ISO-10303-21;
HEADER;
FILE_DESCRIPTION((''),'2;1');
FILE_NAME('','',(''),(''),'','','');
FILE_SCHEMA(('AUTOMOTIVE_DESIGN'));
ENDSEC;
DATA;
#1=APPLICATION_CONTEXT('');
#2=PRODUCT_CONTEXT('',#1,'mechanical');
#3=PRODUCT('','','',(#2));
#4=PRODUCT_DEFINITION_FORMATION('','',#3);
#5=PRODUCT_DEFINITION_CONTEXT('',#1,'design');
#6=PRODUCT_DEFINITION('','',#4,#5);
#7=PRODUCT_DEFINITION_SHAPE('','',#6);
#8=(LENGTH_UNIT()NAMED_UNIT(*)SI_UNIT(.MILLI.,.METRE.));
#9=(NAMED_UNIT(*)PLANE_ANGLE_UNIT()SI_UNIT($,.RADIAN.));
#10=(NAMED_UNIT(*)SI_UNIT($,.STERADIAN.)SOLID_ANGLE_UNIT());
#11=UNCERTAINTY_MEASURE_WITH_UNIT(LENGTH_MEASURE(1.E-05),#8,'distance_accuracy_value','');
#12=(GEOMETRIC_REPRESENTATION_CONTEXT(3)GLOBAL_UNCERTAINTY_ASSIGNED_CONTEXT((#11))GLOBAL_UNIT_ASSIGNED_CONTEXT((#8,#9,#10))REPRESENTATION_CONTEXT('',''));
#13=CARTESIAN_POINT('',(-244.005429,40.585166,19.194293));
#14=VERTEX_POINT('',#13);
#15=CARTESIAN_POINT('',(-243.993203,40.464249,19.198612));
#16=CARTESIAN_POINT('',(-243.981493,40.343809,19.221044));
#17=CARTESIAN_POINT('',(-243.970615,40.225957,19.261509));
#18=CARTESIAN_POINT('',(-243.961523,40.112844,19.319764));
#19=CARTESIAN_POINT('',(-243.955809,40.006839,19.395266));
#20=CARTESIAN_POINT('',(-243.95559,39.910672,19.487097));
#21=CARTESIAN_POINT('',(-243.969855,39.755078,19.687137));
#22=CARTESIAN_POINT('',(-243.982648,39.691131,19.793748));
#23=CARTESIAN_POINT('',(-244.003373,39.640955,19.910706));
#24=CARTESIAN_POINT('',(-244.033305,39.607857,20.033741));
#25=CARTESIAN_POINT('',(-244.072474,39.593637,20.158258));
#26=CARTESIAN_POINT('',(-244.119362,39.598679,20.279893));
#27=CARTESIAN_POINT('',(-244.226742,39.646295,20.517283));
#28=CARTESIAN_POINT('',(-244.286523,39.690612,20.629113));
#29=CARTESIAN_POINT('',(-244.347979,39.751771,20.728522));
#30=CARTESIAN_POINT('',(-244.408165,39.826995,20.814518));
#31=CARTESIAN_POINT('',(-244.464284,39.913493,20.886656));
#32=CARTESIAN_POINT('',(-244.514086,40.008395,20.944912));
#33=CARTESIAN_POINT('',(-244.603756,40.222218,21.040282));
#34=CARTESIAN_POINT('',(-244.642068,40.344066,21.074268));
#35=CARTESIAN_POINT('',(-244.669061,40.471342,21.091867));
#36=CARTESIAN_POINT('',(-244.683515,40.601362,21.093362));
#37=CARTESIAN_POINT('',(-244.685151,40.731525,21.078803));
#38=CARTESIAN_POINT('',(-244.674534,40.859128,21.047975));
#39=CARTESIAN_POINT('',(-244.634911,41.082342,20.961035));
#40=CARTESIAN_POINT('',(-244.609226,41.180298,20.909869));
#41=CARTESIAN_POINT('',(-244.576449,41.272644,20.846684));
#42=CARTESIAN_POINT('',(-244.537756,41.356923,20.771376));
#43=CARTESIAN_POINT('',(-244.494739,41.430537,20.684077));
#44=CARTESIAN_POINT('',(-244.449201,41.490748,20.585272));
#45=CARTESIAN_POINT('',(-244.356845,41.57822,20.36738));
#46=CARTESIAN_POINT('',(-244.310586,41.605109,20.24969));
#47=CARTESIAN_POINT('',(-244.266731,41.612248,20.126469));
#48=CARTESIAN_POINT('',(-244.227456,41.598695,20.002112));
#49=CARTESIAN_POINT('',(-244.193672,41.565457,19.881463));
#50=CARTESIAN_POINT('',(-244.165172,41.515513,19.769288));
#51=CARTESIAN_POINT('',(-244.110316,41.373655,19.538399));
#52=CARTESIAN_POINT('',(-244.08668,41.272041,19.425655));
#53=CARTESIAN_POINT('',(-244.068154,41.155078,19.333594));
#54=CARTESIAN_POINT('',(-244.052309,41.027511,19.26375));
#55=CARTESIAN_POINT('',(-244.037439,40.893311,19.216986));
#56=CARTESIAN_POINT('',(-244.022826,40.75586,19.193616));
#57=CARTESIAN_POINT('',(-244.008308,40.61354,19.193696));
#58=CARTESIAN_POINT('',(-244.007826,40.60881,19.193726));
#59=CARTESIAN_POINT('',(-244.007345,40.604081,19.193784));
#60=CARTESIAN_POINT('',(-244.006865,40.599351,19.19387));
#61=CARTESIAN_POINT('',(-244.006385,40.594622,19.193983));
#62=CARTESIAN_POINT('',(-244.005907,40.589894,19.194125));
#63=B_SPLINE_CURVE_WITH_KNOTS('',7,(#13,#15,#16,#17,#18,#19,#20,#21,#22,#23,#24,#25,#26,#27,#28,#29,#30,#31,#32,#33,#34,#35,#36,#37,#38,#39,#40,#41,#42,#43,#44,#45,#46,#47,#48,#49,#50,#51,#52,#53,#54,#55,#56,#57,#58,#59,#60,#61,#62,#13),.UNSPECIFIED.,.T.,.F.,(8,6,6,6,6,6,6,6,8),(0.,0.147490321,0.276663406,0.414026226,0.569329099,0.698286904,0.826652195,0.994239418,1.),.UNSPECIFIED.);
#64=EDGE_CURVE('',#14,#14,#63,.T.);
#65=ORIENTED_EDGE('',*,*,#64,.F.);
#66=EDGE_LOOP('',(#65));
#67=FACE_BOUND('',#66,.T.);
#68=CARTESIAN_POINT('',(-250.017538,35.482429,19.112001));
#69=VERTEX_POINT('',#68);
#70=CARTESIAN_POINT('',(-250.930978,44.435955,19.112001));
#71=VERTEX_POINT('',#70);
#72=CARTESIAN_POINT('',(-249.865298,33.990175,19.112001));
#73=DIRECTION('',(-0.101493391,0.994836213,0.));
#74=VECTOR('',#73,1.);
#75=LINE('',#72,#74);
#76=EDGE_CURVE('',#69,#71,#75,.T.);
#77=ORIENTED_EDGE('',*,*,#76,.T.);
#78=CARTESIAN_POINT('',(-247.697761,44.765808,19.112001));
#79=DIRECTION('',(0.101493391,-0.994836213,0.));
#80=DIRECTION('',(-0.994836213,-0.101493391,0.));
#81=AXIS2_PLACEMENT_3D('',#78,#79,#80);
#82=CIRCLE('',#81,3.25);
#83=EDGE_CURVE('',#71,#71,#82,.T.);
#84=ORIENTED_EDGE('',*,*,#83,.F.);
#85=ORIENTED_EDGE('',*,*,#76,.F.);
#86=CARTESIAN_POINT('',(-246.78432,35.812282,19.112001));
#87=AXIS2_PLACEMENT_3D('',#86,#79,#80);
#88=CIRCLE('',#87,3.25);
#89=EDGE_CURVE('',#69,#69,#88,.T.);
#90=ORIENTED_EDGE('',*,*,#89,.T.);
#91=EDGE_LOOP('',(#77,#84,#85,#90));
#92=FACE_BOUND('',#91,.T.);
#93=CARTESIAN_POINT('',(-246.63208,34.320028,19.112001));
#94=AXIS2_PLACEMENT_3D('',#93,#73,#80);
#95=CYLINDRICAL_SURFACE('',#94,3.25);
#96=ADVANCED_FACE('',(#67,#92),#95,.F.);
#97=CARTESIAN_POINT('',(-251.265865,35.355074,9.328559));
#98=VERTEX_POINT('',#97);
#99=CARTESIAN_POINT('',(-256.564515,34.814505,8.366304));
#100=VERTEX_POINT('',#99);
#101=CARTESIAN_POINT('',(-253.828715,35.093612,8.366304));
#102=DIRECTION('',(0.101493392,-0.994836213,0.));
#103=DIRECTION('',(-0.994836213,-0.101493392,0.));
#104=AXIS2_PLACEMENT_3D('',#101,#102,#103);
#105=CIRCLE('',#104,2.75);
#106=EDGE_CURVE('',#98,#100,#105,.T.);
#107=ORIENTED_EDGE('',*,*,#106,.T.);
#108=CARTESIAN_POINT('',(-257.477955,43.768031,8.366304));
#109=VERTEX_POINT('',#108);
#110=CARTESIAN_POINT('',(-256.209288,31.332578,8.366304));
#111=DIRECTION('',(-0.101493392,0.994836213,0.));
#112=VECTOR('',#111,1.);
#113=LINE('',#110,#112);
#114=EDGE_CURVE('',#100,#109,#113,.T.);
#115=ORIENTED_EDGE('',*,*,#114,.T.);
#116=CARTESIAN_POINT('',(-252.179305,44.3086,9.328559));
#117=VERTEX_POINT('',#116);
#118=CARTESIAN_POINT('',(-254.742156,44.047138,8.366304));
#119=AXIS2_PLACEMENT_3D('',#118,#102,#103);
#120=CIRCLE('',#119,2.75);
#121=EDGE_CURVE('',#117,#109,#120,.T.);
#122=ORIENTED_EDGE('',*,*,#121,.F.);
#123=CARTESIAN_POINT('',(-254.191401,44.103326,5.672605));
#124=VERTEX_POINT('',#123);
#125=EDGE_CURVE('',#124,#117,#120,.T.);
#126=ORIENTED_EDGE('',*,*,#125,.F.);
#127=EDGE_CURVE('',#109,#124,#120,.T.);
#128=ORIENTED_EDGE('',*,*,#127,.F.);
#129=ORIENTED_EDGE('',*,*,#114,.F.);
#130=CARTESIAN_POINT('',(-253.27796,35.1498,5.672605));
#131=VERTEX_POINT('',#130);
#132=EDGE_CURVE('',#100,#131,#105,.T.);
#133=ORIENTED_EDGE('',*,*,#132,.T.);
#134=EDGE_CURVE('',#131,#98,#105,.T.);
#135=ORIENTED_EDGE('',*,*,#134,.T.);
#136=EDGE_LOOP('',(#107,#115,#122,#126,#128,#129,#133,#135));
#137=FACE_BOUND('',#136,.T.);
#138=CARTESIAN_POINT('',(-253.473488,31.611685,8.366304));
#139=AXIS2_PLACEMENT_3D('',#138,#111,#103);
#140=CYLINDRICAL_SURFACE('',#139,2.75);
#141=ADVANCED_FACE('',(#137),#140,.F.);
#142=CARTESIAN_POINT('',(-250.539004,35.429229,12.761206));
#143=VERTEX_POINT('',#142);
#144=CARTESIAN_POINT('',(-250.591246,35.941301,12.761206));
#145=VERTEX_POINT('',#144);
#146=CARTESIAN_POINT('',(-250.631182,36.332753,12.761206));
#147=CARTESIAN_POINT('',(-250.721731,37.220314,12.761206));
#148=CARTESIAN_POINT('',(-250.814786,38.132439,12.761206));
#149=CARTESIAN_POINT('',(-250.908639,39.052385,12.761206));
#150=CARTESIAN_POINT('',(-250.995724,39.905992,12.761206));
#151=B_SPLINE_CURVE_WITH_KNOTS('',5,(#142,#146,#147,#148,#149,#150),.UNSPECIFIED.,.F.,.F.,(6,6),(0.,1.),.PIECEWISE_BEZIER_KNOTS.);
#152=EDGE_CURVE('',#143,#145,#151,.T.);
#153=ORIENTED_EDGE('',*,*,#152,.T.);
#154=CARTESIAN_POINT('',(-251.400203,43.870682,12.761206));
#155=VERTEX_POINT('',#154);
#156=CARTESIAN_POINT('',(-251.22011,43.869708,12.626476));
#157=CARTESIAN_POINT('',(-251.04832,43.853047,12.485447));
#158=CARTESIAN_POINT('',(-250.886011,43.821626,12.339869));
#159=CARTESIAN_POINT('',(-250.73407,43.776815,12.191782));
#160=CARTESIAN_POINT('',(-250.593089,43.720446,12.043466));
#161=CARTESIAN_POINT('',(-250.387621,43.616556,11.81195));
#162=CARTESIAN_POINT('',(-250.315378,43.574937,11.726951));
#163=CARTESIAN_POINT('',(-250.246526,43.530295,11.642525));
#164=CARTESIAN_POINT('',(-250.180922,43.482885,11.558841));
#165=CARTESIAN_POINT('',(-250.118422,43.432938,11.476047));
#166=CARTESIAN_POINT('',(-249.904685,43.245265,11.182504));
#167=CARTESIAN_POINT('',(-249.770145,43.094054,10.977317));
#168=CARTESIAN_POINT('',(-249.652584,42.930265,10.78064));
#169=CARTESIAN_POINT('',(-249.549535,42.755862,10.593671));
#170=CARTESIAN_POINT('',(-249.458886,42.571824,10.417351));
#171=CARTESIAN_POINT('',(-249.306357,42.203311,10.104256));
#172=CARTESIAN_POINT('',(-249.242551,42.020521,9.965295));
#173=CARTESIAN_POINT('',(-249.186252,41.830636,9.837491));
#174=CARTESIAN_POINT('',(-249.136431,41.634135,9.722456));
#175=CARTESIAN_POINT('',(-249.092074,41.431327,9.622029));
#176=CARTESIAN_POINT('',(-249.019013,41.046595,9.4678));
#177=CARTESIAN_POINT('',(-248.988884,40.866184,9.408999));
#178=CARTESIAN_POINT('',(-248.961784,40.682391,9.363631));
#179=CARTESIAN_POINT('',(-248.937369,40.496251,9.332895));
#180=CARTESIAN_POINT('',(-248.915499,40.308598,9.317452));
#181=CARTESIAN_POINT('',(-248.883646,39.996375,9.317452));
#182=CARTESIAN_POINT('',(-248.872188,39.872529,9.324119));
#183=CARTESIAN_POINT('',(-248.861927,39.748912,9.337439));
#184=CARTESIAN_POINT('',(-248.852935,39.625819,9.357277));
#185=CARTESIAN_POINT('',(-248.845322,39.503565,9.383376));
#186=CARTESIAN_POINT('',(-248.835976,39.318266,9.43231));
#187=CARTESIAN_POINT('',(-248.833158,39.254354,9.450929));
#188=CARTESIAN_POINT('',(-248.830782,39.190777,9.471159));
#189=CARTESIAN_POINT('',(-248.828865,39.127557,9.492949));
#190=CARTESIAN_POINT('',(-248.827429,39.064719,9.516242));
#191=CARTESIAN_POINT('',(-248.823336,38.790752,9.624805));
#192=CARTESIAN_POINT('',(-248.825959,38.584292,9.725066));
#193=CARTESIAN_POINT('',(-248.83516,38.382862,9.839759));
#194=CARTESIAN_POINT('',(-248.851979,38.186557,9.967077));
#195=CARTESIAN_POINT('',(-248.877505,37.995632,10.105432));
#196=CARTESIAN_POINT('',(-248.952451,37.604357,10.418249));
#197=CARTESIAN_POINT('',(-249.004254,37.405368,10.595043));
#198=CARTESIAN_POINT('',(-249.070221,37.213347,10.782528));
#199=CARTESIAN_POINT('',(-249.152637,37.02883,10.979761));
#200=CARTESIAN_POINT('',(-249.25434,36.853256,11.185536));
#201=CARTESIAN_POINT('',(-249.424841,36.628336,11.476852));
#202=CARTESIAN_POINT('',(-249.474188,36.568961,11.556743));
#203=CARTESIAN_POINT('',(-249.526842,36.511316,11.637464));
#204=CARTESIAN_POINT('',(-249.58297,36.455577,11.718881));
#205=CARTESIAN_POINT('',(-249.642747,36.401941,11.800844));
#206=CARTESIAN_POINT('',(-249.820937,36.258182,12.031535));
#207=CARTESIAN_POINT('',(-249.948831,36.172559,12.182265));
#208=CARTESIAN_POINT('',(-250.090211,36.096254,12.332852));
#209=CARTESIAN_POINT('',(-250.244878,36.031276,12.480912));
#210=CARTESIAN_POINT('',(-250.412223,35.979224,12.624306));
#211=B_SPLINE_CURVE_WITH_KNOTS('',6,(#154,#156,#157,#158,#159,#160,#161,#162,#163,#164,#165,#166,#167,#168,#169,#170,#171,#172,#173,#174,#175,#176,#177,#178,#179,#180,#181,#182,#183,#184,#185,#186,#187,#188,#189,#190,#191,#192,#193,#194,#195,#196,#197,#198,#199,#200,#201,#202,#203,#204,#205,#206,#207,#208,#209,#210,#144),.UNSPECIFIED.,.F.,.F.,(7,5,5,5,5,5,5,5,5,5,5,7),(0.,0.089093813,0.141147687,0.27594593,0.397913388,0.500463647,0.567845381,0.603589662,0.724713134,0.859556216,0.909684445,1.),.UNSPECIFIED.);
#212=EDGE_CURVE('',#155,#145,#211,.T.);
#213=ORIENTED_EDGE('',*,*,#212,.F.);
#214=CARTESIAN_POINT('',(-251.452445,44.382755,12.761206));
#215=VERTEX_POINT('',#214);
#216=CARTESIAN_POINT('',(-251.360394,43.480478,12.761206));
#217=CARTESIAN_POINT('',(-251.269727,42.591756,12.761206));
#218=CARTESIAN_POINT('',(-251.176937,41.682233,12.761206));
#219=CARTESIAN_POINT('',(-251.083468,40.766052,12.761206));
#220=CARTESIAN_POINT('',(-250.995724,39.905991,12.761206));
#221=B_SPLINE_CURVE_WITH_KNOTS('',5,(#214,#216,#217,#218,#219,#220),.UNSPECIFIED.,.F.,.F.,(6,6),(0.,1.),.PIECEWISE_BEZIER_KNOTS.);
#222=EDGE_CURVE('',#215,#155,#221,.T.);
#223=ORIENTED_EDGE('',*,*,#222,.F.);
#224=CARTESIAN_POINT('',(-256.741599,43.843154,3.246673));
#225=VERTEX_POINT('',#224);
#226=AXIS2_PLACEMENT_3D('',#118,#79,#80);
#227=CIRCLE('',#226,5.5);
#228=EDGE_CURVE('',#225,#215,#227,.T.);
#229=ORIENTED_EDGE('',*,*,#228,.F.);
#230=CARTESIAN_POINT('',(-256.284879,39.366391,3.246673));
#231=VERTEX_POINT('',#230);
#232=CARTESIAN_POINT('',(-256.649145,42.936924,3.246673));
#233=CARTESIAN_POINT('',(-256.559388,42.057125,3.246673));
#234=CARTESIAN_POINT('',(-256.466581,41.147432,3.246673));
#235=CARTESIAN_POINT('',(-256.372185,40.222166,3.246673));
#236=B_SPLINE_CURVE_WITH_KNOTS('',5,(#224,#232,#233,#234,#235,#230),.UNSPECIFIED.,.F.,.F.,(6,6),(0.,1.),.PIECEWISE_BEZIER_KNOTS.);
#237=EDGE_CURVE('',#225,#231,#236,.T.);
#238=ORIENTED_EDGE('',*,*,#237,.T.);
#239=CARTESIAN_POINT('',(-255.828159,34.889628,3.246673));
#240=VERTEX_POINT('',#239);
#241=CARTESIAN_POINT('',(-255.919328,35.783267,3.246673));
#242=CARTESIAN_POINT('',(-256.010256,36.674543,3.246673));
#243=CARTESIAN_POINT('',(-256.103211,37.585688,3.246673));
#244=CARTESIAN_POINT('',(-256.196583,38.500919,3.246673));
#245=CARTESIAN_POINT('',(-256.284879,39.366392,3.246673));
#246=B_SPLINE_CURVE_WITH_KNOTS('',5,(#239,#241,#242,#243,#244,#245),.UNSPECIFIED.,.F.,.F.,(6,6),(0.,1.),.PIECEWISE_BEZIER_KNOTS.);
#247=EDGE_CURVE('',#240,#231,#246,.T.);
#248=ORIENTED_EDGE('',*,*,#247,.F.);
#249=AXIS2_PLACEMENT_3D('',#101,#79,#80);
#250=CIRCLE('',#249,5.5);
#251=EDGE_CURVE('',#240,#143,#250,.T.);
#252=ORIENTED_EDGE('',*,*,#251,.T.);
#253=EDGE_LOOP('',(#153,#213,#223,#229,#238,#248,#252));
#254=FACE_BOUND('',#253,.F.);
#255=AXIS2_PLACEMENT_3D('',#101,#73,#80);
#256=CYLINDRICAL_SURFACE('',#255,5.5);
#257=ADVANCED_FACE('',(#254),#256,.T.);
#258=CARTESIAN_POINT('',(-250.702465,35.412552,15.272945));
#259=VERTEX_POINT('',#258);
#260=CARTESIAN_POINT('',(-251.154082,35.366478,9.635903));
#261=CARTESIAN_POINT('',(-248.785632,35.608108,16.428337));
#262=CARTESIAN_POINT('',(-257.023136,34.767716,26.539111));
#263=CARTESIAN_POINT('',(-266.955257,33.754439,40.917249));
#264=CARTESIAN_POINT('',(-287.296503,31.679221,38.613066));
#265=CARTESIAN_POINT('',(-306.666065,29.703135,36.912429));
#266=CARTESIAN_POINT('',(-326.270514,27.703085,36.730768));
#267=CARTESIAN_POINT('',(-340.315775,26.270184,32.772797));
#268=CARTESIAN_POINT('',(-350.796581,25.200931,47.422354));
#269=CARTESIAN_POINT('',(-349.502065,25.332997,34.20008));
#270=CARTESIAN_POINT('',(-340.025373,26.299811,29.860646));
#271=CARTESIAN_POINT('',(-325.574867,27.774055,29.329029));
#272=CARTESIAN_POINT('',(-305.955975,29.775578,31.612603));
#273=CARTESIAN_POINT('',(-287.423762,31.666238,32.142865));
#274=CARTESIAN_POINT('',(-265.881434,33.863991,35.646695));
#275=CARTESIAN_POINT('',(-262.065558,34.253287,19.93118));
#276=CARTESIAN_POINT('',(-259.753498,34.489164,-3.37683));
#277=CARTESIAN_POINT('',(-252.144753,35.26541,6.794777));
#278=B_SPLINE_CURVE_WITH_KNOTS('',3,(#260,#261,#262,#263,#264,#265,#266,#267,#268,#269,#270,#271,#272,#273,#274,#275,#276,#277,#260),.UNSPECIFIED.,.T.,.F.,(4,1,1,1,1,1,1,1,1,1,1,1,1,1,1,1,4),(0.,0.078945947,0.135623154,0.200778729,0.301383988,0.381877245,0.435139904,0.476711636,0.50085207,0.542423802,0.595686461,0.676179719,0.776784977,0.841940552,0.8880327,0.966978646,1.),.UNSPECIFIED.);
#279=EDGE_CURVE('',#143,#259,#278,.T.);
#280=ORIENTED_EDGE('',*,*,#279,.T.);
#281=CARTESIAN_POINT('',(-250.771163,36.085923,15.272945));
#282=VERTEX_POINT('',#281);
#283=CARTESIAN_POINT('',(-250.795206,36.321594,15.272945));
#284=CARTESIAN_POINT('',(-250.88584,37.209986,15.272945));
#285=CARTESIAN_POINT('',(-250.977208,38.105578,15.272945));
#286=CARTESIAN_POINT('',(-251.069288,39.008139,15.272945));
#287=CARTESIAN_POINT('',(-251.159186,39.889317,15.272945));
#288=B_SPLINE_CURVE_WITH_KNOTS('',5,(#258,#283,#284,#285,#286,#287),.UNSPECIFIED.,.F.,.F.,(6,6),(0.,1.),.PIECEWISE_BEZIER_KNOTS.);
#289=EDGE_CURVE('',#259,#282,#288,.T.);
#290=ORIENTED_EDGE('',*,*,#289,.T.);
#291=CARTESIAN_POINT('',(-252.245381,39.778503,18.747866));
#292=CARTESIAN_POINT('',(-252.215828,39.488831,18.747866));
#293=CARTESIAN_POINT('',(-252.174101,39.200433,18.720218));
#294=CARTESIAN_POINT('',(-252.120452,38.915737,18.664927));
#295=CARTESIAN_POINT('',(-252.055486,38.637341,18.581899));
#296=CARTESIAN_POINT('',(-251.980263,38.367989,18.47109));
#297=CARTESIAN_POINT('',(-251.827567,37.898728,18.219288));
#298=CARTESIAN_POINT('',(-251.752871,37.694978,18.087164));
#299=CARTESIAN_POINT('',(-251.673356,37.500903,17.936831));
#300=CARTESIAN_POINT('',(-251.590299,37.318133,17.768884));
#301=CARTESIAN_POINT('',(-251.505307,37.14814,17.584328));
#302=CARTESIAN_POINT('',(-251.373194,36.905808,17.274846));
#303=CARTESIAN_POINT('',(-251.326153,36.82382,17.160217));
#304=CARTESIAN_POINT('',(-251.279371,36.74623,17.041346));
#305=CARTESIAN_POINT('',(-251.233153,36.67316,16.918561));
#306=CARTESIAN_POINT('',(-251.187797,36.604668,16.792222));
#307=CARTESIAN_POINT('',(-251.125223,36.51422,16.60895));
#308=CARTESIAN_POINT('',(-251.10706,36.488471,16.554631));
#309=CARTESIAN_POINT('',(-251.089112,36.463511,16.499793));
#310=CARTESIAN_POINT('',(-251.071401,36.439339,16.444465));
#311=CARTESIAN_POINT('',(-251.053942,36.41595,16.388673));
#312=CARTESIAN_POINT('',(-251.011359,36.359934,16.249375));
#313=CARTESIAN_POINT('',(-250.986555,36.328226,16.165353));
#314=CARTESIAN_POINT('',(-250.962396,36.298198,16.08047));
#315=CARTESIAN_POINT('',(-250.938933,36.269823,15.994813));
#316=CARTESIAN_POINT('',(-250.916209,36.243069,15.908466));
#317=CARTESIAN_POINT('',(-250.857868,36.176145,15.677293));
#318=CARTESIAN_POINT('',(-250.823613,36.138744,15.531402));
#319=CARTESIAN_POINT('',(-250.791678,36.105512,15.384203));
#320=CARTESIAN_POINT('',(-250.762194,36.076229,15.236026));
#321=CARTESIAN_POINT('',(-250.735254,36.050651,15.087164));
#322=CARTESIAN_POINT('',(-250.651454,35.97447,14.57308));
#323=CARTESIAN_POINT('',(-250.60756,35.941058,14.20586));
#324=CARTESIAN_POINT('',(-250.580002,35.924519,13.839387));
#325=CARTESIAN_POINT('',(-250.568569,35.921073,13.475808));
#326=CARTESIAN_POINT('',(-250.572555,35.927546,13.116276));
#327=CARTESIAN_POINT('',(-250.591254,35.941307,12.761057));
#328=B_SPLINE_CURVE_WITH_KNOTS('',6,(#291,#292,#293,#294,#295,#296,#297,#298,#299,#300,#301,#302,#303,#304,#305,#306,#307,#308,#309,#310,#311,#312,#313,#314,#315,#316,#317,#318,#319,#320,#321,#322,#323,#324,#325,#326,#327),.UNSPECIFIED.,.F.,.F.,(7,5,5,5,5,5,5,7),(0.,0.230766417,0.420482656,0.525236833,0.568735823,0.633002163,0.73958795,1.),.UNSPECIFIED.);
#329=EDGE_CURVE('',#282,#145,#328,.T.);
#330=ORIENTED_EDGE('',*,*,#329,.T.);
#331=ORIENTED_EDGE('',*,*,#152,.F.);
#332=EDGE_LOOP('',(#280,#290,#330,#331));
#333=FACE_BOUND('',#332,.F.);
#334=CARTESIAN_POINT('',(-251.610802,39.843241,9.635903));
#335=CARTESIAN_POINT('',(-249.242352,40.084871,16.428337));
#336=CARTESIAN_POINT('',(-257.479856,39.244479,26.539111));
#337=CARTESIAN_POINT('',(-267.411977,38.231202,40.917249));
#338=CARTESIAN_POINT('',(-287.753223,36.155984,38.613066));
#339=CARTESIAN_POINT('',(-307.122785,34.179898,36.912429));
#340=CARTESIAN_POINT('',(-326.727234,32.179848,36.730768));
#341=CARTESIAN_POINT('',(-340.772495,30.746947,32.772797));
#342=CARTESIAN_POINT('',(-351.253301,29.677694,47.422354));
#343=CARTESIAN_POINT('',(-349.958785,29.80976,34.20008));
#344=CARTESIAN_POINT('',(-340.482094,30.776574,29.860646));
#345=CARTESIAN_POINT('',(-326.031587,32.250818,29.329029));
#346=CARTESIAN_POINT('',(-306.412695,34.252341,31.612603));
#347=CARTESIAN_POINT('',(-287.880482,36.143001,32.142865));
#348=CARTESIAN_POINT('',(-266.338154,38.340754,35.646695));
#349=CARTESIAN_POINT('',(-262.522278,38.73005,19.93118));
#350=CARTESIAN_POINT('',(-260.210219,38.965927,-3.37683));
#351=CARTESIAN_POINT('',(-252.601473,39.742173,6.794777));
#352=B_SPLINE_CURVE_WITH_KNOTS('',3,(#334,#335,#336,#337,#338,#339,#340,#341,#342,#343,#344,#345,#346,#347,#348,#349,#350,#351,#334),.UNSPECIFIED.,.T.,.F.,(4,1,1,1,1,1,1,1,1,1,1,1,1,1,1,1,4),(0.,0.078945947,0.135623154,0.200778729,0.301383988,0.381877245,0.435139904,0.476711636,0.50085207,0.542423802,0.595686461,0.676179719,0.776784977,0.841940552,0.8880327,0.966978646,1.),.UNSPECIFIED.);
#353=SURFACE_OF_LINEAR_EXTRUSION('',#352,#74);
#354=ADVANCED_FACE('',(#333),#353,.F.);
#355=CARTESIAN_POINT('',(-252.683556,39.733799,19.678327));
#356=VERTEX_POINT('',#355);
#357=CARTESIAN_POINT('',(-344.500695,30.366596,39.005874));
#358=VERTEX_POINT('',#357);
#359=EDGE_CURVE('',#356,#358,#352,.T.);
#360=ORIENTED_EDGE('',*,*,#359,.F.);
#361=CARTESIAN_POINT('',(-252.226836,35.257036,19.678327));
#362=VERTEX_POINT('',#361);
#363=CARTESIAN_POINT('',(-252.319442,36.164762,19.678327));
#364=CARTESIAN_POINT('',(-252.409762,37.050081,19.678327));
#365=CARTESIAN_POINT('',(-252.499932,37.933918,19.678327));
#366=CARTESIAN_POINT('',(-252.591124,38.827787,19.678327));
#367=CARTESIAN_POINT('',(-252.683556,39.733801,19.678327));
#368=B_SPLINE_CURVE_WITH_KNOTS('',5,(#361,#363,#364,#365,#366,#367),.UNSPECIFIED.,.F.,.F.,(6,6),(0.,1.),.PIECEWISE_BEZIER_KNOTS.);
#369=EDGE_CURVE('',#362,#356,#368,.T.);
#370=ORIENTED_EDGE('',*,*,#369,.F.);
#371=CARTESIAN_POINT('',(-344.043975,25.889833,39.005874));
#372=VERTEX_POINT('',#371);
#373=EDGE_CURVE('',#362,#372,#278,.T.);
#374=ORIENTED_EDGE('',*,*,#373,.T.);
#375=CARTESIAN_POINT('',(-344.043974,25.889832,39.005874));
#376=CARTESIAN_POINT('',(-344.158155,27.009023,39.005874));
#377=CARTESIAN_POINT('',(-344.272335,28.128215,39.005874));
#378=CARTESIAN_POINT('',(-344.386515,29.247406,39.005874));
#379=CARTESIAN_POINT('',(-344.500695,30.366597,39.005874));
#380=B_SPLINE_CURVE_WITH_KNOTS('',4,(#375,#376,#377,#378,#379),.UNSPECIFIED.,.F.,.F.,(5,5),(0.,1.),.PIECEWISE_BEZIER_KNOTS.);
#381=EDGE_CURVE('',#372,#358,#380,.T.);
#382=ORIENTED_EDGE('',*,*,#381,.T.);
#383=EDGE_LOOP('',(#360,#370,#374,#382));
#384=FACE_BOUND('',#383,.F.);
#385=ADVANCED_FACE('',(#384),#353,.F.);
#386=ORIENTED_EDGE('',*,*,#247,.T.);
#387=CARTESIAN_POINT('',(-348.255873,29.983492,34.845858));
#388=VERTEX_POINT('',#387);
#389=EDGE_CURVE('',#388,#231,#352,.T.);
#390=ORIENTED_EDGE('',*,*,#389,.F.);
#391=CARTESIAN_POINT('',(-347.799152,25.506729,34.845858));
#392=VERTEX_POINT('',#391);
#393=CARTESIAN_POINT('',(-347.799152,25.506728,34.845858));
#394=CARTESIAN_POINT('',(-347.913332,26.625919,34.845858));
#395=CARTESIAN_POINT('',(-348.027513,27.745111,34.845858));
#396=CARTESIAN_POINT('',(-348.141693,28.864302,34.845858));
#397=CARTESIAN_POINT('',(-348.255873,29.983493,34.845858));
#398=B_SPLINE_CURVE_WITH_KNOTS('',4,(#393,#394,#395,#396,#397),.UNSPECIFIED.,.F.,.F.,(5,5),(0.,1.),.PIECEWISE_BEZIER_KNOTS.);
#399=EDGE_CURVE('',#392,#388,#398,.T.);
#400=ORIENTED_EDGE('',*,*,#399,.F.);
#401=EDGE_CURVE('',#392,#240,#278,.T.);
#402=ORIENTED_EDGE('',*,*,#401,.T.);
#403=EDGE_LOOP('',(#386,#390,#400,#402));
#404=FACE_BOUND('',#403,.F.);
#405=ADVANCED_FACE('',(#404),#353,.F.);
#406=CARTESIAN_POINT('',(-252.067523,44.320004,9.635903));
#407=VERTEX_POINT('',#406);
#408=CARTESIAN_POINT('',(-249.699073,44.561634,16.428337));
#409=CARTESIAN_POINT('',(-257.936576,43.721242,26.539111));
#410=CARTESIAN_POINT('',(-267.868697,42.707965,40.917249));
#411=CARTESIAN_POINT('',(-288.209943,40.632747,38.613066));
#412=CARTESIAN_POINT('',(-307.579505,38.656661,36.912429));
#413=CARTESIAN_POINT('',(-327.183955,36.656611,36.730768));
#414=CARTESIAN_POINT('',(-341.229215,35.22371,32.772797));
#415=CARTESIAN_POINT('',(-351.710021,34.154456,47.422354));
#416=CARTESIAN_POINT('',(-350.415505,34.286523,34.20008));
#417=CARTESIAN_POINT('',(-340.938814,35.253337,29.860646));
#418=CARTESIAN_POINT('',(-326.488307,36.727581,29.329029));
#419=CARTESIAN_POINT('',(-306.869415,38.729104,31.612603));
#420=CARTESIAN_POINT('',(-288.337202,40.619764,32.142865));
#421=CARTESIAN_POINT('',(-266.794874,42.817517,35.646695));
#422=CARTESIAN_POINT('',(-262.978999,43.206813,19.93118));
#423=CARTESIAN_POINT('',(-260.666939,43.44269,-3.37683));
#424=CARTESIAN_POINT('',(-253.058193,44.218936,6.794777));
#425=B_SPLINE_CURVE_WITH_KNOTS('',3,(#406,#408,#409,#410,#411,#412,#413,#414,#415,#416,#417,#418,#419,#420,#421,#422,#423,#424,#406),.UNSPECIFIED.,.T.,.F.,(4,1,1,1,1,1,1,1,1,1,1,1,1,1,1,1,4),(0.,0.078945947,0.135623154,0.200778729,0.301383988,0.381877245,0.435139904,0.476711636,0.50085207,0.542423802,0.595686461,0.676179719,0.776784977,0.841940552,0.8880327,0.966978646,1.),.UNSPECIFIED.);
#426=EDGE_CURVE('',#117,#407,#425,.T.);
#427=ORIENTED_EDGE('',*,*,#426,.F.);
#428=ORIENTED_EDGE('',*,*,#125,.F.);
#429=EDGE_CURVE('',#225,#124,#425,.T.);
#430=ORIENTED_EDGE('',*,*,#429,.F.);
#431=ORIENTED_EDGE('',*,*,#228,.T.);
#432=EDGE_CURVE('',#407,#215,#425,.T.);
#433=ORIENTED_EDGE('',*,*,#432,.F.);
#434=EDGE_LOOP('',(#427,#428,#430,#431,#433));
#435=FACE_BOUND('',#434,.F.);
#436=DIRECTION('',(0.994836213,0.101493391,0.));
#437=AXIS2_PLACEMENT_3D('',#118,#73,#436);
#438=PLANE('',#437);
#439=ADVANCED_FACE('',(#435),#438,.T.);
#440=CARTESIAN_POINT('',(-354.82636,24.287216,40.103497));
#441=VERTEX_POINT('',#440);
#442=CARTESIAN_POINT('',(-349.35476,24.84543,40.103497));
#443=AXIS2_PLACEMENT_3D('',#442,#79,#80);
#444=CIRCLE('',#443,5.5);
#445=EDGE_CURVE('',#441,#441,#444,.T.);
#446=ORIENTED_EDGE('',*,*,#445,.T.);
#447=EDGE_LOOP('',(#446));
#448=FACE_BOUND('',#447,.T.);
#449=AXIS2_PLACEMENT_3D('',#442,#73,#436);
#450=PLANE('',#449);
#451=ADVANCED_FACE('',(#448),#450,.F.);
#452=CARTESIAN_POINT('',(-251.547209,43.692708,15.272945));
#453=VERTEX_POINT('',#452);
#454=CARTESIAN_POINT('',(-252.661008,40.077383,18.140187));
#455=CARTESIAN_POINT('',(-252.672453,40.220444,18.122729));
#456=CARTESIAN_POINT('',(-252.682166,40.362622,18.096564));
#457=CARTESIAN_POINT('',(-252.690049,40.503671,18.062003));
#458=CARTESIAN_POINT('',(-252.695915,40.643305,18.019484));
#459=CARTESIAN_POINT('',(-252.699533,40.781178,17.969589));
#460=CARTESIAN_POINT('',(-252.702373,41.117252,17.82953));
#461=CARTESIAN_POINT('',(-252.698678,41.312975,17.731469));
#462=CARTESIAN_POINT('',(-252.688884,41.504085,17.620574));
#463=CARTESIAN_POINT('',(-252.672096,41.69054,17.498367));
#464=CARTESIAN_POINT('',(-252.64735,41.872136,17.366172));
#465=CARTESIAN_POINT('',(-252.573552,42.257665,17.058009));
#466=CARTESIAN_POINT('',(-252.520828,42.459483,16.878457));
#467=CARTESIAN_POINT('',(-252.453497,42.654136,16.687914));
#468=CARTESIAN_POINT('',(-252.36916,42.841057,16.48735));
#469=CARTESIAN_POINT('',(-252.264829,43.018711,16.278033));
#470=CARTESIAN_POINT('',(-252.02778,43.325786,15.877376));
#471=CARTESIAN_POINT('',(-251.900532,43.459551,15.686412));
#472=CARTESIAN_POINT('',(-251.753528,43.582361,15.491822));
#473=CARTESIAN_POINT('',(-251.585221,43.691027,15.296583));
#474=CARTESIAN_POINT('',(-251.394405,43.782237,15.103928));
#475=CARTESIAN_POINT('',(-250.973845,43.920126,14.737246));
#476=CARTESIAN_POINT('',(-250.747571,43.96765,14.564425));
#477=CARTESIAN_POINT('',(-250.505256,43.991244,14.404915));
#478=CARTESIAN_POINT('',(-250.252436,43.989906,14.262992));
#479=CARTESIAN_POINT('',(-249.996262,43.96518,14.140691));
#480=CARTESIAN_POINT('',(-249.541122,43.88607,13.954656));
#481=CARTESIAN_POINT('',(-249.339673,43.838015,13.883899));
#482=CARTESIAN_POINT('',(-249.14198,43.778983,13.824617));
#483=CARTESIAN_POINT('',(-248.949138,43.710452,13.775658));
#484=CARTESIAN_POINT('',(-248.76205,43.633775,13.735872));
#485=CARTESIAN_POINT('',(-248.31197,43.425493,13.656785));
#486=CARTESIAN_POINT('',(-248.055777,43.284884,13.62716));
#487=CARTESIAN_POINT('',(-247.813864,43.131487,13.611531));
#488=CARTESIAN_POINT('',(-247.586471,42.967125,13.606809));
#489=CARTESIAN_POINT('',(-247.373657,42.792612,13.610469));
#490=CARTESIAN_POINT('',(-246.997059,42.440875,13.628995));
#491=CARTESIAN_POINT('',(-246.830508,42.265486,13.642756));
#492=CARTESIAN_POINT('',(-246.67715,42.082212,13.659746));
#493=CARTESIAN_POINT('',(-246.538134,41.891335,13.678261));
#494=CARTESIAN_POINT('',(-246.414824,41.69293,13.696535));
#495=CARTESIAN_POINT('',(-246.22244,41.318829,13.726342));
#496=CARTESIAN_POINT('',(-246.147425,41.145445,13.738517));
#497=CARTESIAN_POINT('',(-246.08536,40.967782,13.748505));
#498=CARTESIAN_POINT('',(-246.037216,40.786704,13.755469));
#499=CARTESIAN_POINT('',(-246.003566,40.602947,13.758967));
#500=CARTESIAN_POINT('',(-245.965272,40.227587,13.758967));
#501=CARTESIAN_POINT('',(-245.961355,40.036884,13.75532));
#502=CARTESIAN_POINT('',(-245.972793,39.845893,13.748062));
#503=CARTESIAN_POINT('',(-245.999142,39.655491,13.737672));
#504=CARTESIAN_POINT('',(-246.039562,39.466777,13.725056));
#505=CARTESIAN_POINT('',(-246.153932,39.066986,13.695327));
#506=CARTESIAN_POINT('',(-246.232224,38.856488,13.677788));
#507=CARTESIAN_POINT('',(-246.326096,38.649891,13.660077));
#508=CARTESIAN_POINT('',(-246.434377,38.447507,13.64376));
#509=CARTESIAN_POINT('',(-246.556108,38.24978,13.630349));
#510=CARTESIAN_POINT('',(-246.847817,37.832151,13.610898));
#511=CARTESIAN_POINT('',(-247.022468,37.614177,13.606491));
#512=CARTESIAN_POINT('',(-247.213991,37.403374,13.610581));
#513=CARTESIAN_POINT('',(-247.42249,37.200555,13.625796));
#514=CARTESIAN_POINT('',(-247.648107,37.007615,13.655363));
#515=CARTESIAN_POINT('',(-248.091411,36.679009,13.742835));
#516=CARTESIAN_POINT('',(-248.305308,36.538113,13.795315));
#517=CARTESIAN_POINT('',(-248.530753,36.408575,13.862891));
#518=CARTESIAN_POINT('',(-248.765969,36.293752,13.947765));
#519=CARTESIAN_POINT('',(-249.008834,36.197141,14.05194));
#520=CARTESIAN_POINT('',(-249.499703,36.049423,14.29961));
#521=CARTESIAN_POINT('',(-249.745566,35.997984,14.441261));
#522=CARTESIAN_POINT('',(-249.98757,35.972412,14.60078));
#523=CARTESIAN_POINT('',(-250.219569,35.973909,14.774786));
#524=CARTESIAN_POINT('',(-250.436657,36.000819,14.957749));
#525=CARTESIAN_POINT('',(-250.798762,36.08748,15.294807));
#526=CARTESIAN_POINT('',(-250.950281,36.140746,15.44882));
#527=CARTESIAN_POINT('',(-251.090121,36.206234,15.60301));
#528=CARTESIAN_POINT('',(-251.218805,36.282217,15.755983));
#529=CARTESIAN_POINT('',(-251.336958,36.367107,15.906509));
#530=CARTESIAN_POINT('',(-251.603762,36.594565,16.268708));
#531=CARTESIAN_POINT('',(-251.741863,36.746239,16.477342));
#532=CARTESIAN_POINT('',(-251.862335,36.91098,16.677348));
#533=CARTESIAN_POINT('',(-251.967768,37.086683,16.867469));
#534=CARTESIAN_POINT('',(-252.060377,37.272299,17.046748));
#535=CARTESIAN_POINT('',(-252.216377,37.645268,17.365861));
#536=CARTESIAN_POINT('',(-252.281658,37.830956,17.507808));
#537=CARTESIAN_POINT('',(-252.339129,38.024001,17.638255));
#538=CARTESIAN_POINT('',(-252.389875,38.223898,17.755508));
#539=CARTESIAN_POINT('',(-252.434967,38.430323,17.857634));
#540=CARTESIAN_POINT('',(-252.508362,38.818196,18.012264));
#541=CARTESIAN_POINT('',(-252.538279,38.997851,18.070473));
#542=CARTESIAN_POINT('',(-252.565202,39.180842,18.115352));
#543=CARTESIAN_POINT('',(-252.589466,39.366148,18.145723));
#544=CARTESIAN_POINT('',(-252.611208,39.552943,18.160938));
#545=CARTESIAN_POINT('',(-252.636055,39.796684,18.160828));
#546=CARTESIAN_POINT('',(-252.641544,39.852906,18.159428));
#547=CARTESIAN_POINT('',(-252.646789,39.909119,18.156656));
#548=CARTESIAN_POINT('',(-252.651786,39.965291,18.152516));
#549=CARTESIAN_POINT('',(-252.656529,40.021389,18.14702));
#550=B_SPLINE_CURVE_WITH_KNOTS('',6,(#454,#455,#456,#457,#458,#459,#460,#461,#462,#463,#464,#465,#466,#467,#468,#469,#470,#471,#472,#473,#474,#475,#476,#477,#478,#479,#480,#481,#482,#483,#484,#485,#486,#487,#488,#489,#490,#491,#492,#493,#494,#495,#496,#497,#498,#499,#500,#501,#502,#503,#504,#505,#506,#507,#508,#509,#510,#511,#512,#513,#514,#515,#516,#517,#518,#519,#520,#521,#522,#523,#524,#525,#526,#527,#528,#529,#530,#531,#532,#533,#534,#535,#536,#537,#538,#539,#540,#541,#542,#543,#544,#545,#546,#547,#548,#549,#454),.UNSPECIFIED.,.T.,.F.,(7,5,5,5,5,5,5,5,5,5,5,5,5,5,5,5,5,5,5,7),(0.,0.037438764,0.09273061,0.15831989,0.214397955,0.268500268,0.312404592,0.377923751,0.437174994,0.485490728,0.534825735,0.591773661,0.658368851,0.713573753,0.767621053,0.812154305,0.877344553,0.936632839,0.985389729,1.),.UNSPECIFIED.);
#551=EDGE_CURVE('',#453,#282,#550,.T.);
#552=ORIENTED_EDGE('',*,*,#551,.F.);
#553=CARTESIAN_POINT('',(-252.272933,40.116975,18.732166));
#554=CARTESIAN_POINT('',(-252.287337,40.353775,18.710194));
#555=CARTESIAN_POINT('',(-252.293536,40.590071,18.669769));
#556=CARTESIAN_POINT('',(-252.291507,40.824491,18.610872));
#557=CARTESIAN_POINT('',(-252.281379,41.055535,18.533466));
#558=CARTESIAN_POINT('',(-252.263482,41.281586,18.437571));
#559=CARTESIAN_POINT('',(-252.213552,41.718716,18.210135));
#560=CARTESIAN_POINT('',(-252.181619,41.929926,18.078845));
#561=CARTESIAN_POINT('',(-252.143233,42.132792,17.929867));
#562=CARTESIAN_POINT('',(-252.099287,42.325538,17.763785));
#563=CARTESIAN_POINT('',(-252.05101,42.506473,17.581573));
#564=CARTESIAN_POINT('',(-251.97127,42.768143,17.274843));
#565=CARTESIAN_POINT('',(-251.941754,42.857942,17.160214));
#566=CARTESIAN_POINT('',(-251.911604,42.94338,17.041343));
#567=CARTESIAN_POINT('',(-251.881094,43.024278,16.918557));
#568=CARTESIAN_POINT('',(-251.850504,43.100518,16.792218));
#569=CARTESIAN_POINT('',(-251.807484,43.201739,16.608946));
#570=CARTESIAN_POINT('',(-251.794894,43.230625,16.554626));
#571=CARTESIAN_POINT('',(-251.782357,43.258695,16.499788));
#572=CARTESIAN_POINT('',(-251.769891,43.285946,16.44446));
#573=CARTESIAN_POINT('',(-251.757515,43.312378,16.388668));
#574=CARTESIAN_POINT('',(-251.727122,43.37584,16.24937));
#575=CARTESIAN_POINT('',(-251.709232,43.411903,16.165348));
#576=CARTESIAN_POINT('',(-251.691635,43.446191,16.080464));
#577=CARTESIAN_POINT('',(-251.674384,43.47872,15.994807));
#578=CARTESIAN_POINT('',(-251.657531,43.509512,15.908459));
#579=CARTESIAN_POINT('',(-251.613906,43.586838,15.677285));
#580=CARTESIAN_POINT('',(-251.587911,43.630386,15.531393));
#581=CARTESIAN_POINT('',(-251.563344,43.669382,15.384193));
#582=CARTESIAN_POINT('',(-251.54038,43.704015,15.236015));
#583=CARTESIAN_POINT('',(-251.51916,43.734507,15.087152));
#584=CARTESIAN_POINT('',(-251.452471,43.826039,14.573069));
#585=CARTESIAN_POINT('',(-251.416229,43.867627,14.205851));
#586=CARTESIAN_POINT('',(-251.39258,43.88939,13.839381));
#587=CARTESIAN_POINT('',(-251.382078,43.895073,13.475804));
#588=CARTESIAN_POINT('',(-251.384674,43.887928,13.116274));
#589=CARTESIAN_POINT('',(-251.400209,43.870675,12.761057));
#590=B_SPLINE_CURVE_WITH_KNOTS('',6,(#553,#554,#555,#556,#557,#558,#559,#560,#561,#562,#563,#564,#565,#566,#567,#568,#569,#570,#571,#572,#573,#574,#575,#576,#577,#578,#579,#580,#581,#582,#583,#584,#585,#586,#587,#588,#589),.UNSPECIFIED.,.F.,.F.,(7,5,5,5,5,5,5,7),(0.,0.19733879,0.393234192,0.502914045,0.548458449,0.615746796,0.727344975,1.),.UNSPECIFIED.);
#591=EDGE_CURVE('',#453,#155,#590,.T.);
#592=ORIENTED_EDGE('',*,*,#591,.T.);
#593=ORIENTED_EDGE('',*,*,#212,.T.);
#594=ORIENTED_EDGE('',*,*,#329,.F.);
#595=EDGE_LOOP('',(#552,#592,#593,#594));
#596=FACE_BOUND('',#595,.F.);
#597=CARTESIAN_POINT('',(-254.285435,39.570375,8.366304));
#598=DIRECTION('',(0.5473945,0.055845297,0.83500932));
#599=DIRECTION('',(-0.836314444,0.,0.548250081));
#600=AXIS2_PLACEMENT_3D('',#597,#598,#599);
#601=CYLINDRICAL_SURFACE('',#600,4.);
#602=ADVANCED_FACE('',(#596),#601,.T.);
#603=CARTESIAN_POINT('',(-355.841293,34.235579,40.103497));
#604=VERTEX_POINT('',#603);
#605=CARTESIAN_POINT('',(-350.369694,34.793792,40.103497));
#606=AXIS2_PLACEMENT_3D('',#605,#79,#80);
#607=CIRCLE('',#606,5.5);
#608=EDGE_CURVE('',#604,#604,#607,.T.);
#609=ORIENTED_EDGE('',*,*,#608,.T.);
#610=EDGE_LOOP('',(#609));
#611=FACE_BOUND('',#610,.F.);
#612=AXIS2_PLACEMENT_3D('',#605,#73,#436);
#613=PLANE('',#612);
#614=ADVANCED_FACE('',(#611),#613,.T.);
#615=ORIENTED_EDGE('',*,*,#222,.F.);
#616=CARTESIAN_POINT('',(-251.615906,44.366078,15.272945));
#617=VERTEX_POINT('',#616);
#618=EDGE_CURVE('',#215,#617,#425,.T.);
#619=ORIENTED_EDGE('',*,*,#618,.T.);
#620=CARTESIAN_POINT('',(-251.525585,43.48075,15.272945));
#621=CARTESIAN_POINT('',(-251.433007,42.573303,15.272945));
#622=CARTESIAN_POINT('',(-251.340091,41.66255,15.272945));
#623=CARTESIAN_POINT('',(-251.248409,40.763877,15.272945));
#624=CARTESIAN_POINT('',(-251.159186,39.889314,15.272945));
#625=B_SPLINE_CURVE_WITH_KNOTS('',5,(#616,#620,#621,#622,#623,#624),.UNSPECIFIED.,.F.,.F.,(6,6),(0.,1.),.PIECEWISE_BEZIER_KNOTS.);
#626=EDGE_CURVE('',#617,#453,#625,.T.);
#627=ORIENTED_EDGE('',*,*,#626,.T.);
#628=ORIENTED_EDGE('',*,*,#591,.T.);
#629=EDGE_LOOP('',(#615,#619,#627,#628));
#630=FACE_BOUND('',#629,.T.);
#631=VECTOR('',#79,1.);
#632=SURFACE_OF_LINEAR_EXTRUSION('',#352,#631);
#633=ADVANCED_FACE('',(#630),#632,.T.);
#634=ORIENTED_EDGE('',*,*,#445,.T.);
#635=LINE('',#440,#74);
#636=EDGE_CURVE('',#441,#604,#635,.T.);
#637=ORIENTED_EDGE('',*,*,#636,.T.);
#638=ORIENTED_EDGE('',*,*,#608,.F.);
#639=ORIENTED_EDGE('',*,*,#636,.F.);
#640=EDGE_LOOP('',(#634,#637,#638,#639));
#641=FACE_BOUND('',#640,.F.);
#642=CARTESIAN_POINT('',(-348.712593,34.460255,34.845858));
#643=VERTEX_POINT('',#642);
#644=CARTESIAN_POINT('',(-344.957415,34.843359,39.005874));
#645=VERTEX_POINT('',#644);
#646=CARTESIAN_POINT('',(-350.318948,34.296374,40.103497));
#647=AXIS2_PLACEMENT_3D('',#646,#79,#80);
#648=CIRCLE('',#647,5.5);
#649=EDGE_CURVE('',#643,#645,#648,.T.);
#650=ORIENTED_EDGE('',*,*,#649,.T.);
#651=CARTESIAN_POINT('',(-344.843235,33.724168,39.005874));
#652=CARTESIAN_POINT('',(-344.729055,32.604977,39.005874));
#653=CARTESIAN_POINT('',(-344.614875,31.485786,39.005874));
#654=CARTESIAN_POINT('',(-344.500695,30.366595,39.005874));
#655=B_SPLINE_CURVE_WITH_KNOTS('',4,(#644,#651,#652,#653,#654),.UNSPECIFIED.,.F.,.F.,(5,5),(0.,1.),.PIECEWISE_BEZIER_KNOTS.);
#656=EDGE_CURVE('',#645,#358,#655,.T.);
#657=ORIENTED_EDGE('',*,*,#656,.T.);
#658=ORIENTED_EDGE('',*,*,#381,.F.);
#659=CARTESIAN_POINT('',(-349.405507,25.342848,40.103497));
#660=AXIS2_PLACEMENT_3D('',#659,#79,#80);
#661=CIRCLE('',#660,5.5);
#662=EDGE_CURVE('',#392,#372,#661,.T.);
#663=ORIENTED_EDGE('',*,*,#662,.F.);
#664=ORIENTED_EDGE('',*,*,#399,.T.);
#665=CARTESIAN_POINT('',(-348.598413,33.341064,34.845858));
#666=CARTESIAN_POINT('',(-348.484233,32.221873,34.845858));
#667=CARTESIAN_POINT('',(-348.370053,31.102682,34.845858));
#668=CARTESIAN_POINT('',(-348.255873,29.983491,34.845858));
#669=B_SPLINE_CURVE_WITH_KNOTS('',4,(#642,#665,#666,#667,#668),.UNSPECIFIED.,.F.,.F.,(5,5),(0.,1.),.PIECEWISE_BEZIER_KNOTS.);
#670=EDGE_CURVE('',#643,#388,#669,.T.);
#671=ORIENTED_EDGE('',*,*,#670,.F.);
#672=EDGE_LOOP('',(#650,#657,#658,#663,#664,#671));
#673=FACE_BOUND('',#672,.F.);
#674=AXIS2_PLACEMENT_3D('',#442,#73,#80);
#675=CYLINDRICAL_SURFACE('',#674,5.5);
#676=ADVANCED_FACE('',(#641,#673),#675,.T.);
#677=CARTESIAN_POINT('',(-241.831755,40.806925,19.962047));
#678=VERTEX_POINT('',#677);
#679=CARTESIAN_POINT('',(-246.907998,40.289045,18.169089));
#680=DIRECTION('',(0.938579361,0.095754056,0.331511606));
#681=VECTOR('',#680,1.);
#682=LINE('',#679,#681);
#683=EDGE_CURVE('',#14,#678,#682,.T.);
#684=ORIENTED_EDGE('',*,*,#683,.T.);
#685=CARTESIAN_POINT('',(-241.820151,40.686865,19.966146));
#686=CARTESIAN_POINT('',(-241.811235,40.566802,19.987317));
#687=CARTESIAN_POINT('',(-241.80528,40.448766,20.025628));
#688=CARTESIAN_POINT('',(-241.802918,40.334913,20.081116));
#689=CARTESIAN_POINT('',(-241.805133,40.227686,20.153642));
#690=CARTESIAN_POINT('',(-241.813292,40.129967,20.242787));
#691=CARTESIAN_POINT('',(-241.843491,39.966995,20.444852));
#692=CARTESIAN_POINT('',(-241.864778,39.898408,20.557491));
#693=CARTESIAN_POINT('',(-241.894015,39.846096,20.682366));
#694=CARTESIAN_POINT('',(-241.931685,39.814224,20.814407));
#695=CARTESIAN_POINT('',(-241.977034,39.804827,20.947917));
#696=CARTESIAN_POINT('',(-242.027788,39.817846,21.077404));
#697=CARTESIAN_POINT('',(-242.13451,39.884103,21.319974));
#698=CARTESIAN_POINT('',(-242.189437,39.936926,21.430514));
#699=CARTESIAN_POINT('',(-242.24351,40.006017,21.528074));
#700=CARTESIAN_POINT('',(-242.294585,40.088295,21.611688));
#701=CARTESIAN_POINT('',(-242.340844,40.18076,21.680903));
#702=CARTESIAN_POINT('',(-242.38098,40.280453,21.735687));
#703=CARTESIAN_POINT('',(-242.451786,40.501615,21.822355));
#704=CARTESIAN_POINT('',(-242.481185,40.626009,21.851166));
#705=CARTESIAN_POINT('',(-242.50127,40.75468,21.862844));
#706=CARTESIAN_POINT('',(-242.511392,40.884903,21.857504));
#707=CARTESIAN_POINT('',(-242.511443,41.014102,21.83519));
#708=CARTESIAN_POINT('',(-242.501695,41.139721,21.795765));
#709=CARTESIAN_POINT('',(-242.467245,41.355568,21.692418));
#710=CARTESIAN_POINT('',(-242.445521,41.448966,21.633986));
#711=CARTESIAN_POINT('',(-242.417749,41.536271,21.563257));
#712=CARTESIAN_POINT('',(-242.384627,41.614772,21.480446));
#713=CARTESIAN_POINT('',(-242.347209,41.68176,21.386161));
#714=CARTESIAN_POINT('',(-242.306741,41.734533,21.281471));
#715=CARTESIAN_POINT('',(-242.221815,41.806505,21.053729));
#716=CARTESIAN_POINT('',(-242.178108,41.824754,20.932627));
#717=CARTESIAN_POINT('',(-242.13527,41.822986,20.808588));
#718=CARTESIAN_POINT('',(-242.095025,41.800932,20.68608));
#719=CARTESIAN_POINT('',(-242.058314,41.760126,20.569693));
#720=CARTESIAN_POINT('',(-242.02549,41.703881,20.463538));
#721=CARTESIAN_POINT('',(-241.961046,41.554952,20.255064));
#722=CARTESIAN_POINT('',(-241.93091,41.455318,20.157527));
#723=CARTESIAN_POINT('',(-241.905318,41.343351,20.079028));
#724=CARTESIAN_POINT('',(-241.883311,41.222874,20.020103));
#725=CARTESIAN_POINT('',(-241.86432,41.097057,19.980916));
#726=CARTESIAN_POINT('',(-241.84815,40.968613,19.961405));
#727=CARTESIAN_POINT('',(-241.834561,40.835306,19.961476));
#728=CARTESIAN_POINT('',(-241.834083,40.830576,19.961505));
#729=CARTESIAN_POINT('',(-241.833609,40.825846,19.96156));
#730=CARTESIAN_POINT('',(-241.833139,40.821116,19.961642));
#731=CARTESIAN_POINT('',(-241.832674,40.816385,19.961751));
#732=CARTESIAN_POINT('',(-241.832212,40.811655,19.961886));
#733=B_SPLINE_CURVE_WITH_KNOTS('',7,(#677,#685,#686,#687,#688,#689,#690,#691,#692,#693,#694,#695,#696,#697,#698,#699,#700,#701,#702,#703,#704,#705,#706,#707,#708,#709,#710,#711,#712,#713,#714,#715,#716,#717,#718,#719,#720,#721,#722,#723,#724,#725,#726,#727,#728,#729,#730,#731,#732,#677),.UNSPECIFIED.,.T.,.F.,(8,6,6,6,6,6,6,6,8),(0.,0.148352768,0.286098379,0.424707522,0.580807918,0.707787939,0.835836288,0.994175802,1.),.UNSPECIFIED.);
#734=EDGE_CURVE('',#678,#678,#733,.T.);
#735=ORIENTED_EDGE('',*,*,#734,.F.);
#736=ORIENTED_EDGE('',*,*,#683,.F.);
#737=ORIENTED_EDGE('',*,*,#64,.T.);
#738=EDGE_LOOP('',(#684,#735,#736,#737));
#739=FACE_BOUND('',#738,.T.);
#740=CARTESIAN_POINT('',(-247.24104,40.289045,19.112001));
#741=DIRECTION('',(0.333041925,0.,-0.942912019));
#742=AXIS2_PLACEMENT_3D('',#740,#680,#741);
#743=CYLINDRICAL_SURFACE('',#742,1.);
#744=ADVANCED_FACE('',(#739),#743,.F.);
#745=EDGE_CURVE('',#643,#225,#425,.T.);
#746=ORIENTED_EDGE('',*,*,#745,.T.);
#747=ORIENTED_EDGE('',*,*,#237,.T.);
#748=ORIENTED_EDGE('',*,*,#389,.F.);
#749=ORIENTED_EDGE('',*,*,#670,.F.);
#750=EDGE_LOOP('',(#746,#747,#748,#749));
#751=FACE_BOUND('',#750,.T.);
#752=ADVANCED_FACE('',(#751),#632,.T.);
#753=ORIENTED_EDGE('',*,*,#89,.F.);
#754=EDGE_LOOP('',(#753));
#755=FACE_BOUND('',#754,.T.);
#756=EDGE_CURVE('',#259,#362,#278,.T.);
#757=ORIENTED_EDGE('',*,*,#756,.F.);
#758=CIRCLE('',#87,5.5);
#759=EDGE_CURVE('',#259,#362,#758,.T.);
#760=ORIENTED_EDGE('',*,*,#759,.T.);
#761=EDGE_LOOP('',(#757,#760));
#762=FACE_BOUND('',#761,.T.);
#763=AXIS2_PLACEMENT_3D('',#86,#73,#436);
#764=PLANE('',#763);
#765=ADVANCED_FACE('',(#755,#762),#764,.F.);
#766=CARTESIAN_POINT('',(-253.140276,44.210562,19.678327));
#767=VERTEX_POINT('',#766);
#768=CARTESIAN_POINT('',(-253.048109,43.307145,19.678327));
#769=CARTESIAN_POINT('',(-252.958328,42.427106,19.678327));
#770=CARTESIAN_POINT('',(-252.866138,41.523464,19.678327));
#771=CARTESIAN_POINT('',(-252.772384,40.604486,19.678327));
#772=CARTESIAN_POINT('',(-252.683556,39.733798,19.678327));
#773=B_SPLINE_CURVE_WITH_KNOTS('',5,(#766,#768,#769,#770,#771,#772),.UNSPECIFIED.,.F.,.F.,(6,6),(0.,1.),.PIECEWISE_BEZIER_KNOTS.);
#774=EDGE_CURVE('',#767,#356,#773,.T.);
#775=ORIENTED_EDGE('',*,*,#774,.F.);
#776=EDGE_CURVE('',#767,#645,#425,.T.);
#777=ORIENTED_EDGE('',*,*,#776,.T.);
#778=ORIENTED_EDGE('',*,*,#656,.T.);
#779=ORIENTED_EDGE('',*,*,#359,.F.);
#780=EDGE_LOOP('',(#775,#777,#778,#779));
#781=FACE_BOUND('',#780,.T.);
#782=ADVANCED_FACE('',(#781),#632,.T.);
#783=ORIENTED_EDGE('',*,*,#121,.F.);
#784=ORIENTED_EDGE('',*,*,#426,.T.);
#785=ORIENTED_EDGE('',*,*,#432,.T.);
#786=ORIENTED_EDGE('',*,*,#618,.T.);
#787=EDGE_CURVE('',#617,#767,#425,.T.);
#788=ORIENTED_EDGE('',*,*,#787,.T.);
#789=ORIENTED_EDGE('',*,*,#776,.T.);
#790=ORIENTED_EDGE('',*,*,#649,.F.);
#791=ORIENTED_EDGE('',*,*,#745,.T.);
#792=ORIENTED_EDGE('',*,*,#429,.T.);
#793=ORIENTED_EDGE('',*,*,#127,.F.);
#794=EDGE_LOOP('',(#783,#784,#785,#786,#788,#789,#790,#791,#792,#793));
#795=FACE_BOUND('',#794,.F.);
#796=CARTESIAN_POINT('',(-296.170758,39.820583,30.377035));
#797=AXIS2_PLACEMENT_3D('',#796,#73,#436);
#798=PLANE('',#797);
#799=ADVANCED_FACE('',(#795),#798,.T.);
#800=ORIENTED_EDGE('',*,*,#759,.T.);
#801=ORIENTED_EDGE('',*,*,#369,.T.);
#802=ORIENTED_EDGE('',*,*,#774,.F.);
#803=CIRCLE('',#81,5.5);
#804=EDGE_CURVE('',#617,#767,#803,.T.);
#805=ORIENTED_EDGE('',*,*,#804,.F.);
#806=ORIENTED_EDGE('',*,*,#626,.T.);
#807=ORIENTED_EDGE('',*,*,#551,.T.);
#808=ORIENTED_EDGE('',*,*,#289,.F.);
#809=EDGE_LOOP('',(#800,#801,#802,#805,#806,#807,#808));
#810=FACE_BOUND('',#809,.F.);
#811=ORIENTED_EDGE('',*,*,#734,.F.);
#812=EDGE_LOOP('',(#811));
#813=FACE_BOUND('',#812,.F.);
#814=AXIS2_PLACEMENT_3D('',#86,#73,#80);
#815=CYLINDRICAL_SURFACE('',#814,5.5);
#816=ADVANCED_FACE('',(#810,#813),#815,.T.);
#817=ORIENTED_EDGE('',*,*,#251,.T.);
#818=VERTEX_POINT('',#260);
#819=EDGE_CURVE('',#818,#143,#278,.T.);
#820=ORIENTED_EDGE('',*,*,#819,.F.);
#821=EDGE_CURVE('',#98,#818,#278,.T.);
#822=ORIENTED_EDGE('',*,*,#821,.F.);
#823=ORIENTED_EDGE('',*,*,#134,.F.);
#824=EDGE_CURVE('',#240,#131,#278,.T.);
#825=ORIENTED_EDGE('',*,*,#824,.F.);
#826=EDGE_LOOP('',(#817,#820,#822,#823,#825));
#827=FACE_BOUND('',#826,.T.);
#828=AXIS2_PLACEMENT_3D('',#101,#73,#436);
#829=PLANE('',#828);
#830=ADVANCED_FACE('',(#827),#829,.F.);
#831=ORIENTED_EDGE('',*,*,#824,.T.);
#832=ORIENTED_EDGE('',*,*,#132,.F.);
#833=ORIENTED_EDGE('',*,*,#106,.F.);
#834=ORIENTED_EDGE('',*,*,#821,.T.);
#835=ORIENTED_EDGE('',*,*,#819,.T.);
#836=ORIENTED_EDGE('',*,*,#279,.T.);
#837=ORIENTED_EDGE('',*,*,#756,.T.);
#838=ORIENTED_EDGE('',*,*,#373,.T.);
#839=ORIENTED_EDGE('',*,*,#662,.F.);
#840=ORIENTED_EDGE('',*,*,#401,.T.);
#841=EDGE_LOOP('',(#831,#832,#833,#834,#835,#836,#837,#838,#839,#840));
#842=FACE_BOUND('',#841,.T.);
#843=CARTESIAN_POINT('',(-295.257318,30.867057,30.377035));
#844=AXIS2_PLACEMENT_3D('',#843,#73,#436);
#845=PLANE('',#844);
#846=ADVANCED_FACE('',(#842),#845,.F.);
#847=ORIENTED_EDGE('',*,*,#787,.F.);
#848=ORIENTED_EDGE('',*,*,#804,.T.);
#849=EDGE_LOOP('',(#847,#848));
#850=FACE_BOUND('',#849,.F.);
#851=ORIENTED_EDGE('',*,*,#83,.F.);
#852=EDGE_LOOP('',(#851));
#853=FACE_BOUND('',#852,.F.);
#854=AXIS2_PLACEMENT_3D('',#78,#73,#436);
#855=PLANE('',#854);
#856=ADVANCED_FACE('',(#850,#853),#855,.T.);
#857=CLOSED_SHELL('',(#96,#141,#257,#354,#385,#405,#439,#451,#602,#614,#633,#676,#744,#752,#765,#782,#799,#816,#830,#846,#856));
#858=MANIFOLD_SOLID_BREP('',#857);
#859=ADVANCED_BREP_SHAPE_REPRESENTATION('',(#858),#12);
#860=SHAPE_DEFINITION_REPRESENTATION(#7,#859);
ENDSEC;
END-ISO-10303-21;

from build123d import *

# Parameters (mm, degrees)
PALANCA_DEPTH                 = 4.5
BUJE_PIVOTE_PROFILE_R         = 5.5
BOLA_PROFILE_R                = 5.5
BRAZO_CABEZAL_PROFILE_R       = 4
OREJA_CABEZAL_PROFILE_R       = 5.5
AGUJERO_PIVOTE_PROFILE_R      = 2.75
ALOJAMIENTO_CABEZAL_PROFILE_R = 3.25
SALIDA_CABLE_PROFILE_R        = 1


with BuildPart() as part:
    # Sk_Palanca → Palanca (new, symmetric)
    with BuildSketch(Plane(origin=(6.614764097, 64.837786693, 0), x_dir=(-0.994836213398138, 0.10149339146789091, 0), z_dir=(-0.1014933914678909, -0.9948362133981379, 0))):
        with BuildLine():
            add(Edge.make_bspline(
                [(-246.267712097, -9.635902877), (-243.886968536, -16.428336605), (-252.167229885, -26.539110512), (-262.150904369, -40.917249125), (-282.597733448, -38.61306643), (-302.067834573, -36.912429156), (-321.774042894, -36.730768216), (-335.8922068, -32.77279684), (-346.42741419, -47.422354469), (-345.126178944, -34.200079595), (-335.600297869, -29.860646291), (-321.07478475, -29.32902891), (-301.354059006, -31.612602642), (-282.725652771, -32.142864553), (-261.071507606, -35.64669483), (-257.235825231, -19.931179522), (-254.911764508, 3.376830431), (-247.263524779, -6.794777206), (-246.267712097, -9.635902877)],
                knots=[0, 0, 0, 0, 0.078945947, 0.135623154, 0.200778729, 0.301383988, 0.381877245, 0.435139904, 0.476711636, 0.50085207, 0.542423802, 0.595686461, 0.676179719, 0.776784977, 0.841940552, 0.8880327, 0.966978646, 1, 1, 1, 1], degree=3))
        make_face()
    extrude(amount=PALANCA_DEPTH, both=True)

    # Buje_pivote: sweep along a curve in space
    with BuildLine() as buje_pivote_path:
        Line((253.82871512, 35.093611814, 8.366303886), (254.742155643, 44.047137735, 8.366303886))
    # Buje_pivote profile (on start of the path) → Buje_pivote (sweep)
    with BuildSketch(Plane(origin=(253.82871512, 35.093611814, 8.366303886), x_dir=(0.9948362133981379, -0.10149339146789141, 0), z_dir=(0.10149339146789141, 0.9948362133981379, 0))):
        Circle(BUJE_PIVOTE_PROFILE_R)
    sweep(path=buje_pivote_path.line)

    # Bola: sweep along a curve in space
    with BuildLine() as bola_path:
        Line((349.354760335, 24.845430088, 40.103497474), (350.369694249, 34.793792222, 40.103497474))
    # Bola profile (on start of the path) → Bola (sweep)
    with BuildSketch(Plane(origin=(349.354760335, 24.845430088, 40.103497474), x_dir=(0.9948362133981379, -0.101493391467892, 0), z_dir=(0.101493391467892, 0.9948362133981379, 0))):
        Circle(BOLA_PROFILE_R)
    sweep(path=bola_path.line)

    # Brazo_cabezal: sweep along a curve in space
    with BuildLine() as brazo_cabezal_path:
        Line((254.285435381, 39.570374774, 8.366303886), (247.241040254, 40.289045388, 19.112001157))
    # Brazo_cabezal profile (on start of the path) → Brazo_cabezal (sweep)
    with BuildSketch(Plane(origin=(254.285435381, 39.570374774, 8.366303886), x_dir=(0.8363144439647209, 0, 0.5482500805435233), z_dir=(-0.5473944999393169, 0.05584529746855661, 0.835009319820344))):
        Circle(BRAZO_CABEZAL_PROFILE_R)
    sweep(path=brazo_cabezal_path.line)

    # Oreja_cabezal: sweep along a curve in space
    with BuildLine() as oreja_cabezal_path:
        Line((246.784319992, 35.812282428, 19.112001157), (247.697760515, 44.765808349, 19.112001157))
    # Oreja_cabezal profile (on start of the path) → Oreja_cabezal (sweep)
    with BuildSketch(Plane(origin=(246.784319992, 35.812282428, 19.112001157), x_dir=(0.9948362133981379, -0.10149339146789141, 0), z_dir=(0.10149339146789141, 0.9948362133981379, 0))):
        Circle(OREJA_CABEZAL_PROFILE_R)
    sweep(path=oreja_cabezal_path.line)

    # Agujero_pivote: sweep along a curve in space
    with BuildLine() as agujero_pivote_path:
        Line((253.473488249, 31.611685067, 8.366303886), (255.097382513, 47.529064481, 8.366303886))
    # Agujero_pivote profile (on start of the path) → Agujero_pivote (sweep, cut)
    with BuildSketch(Plane(origin=(253.473488249, 31.611685067, 8.366303886), x_dir=(0.9948362133981381, -0.10149339146789058, 0), z_dir=(0.10149339146789058, 0.9948362133981381, 0))):
        Circle(AGUJERO_PIVOTE_PROFILE_R)
    sweep(path=agujero_pivote_path.line, mode=Mode.SUBTRACT)

    # Alojamiento_cabezal: sweep along a curve in space
    with BuildLine() as alojamiento_cabezal_path:
        Line((246.632079905, 34.320028108, 19.112001157), (247.850000602, 46.258062669, 19.112001157))
    # Alojamiento_cabezal profile (on start of the path) → Alojamiento_cabezal (sweep, cut)
    with BuildSketch(Plane(origin=(246.632079905, 34.320028108, 19.112001157), x_dir=(0.9948362133981378, -0.10149339146789292, 0), z_dir=(0.10149339146789292, 0.9948362133981378, 0))):
        Circle(ALOJAMIENTO_CABEZAL_PROFILE_R)
    sweep(path=alojamiento_cabezal_path.line, mode=Mode.SUBTRACT)

    # Salida_cable: sweep along a curve in space
    with BuildLine() as salida_cable_path:
        Line((247.241040254, 40.289045388, 19.112001157), (238.545113875, 41.176205554, 22.183452158))
    # Salida_cable profile (on start of the path) → Salida_cable (sweep, cut)
    with BuildSketch(Plane(origin=(247.241040254, 40.289045388, 19.112001157), x_dir=(-0.3330419255629734, 0, -0.9429120191286708), z_dir=(-0.9385793605381186, 0.09575405597409072, 0.33151160573404825))):
        Circle(SALIDA_CABLE_PROFILE_R)
    sweep(path=salida_cable_path.line, mode=Mode.SUBTRACT)


with BuildPart() as body_2:
    # Simetria_lado_izq: mirrored copy
    add(part.part.mirror(Plane(origin=(0, 0, 0), x_dir=(0, 0, 1), z_dir=(1, 0, 0))))


solid = body_2.part
